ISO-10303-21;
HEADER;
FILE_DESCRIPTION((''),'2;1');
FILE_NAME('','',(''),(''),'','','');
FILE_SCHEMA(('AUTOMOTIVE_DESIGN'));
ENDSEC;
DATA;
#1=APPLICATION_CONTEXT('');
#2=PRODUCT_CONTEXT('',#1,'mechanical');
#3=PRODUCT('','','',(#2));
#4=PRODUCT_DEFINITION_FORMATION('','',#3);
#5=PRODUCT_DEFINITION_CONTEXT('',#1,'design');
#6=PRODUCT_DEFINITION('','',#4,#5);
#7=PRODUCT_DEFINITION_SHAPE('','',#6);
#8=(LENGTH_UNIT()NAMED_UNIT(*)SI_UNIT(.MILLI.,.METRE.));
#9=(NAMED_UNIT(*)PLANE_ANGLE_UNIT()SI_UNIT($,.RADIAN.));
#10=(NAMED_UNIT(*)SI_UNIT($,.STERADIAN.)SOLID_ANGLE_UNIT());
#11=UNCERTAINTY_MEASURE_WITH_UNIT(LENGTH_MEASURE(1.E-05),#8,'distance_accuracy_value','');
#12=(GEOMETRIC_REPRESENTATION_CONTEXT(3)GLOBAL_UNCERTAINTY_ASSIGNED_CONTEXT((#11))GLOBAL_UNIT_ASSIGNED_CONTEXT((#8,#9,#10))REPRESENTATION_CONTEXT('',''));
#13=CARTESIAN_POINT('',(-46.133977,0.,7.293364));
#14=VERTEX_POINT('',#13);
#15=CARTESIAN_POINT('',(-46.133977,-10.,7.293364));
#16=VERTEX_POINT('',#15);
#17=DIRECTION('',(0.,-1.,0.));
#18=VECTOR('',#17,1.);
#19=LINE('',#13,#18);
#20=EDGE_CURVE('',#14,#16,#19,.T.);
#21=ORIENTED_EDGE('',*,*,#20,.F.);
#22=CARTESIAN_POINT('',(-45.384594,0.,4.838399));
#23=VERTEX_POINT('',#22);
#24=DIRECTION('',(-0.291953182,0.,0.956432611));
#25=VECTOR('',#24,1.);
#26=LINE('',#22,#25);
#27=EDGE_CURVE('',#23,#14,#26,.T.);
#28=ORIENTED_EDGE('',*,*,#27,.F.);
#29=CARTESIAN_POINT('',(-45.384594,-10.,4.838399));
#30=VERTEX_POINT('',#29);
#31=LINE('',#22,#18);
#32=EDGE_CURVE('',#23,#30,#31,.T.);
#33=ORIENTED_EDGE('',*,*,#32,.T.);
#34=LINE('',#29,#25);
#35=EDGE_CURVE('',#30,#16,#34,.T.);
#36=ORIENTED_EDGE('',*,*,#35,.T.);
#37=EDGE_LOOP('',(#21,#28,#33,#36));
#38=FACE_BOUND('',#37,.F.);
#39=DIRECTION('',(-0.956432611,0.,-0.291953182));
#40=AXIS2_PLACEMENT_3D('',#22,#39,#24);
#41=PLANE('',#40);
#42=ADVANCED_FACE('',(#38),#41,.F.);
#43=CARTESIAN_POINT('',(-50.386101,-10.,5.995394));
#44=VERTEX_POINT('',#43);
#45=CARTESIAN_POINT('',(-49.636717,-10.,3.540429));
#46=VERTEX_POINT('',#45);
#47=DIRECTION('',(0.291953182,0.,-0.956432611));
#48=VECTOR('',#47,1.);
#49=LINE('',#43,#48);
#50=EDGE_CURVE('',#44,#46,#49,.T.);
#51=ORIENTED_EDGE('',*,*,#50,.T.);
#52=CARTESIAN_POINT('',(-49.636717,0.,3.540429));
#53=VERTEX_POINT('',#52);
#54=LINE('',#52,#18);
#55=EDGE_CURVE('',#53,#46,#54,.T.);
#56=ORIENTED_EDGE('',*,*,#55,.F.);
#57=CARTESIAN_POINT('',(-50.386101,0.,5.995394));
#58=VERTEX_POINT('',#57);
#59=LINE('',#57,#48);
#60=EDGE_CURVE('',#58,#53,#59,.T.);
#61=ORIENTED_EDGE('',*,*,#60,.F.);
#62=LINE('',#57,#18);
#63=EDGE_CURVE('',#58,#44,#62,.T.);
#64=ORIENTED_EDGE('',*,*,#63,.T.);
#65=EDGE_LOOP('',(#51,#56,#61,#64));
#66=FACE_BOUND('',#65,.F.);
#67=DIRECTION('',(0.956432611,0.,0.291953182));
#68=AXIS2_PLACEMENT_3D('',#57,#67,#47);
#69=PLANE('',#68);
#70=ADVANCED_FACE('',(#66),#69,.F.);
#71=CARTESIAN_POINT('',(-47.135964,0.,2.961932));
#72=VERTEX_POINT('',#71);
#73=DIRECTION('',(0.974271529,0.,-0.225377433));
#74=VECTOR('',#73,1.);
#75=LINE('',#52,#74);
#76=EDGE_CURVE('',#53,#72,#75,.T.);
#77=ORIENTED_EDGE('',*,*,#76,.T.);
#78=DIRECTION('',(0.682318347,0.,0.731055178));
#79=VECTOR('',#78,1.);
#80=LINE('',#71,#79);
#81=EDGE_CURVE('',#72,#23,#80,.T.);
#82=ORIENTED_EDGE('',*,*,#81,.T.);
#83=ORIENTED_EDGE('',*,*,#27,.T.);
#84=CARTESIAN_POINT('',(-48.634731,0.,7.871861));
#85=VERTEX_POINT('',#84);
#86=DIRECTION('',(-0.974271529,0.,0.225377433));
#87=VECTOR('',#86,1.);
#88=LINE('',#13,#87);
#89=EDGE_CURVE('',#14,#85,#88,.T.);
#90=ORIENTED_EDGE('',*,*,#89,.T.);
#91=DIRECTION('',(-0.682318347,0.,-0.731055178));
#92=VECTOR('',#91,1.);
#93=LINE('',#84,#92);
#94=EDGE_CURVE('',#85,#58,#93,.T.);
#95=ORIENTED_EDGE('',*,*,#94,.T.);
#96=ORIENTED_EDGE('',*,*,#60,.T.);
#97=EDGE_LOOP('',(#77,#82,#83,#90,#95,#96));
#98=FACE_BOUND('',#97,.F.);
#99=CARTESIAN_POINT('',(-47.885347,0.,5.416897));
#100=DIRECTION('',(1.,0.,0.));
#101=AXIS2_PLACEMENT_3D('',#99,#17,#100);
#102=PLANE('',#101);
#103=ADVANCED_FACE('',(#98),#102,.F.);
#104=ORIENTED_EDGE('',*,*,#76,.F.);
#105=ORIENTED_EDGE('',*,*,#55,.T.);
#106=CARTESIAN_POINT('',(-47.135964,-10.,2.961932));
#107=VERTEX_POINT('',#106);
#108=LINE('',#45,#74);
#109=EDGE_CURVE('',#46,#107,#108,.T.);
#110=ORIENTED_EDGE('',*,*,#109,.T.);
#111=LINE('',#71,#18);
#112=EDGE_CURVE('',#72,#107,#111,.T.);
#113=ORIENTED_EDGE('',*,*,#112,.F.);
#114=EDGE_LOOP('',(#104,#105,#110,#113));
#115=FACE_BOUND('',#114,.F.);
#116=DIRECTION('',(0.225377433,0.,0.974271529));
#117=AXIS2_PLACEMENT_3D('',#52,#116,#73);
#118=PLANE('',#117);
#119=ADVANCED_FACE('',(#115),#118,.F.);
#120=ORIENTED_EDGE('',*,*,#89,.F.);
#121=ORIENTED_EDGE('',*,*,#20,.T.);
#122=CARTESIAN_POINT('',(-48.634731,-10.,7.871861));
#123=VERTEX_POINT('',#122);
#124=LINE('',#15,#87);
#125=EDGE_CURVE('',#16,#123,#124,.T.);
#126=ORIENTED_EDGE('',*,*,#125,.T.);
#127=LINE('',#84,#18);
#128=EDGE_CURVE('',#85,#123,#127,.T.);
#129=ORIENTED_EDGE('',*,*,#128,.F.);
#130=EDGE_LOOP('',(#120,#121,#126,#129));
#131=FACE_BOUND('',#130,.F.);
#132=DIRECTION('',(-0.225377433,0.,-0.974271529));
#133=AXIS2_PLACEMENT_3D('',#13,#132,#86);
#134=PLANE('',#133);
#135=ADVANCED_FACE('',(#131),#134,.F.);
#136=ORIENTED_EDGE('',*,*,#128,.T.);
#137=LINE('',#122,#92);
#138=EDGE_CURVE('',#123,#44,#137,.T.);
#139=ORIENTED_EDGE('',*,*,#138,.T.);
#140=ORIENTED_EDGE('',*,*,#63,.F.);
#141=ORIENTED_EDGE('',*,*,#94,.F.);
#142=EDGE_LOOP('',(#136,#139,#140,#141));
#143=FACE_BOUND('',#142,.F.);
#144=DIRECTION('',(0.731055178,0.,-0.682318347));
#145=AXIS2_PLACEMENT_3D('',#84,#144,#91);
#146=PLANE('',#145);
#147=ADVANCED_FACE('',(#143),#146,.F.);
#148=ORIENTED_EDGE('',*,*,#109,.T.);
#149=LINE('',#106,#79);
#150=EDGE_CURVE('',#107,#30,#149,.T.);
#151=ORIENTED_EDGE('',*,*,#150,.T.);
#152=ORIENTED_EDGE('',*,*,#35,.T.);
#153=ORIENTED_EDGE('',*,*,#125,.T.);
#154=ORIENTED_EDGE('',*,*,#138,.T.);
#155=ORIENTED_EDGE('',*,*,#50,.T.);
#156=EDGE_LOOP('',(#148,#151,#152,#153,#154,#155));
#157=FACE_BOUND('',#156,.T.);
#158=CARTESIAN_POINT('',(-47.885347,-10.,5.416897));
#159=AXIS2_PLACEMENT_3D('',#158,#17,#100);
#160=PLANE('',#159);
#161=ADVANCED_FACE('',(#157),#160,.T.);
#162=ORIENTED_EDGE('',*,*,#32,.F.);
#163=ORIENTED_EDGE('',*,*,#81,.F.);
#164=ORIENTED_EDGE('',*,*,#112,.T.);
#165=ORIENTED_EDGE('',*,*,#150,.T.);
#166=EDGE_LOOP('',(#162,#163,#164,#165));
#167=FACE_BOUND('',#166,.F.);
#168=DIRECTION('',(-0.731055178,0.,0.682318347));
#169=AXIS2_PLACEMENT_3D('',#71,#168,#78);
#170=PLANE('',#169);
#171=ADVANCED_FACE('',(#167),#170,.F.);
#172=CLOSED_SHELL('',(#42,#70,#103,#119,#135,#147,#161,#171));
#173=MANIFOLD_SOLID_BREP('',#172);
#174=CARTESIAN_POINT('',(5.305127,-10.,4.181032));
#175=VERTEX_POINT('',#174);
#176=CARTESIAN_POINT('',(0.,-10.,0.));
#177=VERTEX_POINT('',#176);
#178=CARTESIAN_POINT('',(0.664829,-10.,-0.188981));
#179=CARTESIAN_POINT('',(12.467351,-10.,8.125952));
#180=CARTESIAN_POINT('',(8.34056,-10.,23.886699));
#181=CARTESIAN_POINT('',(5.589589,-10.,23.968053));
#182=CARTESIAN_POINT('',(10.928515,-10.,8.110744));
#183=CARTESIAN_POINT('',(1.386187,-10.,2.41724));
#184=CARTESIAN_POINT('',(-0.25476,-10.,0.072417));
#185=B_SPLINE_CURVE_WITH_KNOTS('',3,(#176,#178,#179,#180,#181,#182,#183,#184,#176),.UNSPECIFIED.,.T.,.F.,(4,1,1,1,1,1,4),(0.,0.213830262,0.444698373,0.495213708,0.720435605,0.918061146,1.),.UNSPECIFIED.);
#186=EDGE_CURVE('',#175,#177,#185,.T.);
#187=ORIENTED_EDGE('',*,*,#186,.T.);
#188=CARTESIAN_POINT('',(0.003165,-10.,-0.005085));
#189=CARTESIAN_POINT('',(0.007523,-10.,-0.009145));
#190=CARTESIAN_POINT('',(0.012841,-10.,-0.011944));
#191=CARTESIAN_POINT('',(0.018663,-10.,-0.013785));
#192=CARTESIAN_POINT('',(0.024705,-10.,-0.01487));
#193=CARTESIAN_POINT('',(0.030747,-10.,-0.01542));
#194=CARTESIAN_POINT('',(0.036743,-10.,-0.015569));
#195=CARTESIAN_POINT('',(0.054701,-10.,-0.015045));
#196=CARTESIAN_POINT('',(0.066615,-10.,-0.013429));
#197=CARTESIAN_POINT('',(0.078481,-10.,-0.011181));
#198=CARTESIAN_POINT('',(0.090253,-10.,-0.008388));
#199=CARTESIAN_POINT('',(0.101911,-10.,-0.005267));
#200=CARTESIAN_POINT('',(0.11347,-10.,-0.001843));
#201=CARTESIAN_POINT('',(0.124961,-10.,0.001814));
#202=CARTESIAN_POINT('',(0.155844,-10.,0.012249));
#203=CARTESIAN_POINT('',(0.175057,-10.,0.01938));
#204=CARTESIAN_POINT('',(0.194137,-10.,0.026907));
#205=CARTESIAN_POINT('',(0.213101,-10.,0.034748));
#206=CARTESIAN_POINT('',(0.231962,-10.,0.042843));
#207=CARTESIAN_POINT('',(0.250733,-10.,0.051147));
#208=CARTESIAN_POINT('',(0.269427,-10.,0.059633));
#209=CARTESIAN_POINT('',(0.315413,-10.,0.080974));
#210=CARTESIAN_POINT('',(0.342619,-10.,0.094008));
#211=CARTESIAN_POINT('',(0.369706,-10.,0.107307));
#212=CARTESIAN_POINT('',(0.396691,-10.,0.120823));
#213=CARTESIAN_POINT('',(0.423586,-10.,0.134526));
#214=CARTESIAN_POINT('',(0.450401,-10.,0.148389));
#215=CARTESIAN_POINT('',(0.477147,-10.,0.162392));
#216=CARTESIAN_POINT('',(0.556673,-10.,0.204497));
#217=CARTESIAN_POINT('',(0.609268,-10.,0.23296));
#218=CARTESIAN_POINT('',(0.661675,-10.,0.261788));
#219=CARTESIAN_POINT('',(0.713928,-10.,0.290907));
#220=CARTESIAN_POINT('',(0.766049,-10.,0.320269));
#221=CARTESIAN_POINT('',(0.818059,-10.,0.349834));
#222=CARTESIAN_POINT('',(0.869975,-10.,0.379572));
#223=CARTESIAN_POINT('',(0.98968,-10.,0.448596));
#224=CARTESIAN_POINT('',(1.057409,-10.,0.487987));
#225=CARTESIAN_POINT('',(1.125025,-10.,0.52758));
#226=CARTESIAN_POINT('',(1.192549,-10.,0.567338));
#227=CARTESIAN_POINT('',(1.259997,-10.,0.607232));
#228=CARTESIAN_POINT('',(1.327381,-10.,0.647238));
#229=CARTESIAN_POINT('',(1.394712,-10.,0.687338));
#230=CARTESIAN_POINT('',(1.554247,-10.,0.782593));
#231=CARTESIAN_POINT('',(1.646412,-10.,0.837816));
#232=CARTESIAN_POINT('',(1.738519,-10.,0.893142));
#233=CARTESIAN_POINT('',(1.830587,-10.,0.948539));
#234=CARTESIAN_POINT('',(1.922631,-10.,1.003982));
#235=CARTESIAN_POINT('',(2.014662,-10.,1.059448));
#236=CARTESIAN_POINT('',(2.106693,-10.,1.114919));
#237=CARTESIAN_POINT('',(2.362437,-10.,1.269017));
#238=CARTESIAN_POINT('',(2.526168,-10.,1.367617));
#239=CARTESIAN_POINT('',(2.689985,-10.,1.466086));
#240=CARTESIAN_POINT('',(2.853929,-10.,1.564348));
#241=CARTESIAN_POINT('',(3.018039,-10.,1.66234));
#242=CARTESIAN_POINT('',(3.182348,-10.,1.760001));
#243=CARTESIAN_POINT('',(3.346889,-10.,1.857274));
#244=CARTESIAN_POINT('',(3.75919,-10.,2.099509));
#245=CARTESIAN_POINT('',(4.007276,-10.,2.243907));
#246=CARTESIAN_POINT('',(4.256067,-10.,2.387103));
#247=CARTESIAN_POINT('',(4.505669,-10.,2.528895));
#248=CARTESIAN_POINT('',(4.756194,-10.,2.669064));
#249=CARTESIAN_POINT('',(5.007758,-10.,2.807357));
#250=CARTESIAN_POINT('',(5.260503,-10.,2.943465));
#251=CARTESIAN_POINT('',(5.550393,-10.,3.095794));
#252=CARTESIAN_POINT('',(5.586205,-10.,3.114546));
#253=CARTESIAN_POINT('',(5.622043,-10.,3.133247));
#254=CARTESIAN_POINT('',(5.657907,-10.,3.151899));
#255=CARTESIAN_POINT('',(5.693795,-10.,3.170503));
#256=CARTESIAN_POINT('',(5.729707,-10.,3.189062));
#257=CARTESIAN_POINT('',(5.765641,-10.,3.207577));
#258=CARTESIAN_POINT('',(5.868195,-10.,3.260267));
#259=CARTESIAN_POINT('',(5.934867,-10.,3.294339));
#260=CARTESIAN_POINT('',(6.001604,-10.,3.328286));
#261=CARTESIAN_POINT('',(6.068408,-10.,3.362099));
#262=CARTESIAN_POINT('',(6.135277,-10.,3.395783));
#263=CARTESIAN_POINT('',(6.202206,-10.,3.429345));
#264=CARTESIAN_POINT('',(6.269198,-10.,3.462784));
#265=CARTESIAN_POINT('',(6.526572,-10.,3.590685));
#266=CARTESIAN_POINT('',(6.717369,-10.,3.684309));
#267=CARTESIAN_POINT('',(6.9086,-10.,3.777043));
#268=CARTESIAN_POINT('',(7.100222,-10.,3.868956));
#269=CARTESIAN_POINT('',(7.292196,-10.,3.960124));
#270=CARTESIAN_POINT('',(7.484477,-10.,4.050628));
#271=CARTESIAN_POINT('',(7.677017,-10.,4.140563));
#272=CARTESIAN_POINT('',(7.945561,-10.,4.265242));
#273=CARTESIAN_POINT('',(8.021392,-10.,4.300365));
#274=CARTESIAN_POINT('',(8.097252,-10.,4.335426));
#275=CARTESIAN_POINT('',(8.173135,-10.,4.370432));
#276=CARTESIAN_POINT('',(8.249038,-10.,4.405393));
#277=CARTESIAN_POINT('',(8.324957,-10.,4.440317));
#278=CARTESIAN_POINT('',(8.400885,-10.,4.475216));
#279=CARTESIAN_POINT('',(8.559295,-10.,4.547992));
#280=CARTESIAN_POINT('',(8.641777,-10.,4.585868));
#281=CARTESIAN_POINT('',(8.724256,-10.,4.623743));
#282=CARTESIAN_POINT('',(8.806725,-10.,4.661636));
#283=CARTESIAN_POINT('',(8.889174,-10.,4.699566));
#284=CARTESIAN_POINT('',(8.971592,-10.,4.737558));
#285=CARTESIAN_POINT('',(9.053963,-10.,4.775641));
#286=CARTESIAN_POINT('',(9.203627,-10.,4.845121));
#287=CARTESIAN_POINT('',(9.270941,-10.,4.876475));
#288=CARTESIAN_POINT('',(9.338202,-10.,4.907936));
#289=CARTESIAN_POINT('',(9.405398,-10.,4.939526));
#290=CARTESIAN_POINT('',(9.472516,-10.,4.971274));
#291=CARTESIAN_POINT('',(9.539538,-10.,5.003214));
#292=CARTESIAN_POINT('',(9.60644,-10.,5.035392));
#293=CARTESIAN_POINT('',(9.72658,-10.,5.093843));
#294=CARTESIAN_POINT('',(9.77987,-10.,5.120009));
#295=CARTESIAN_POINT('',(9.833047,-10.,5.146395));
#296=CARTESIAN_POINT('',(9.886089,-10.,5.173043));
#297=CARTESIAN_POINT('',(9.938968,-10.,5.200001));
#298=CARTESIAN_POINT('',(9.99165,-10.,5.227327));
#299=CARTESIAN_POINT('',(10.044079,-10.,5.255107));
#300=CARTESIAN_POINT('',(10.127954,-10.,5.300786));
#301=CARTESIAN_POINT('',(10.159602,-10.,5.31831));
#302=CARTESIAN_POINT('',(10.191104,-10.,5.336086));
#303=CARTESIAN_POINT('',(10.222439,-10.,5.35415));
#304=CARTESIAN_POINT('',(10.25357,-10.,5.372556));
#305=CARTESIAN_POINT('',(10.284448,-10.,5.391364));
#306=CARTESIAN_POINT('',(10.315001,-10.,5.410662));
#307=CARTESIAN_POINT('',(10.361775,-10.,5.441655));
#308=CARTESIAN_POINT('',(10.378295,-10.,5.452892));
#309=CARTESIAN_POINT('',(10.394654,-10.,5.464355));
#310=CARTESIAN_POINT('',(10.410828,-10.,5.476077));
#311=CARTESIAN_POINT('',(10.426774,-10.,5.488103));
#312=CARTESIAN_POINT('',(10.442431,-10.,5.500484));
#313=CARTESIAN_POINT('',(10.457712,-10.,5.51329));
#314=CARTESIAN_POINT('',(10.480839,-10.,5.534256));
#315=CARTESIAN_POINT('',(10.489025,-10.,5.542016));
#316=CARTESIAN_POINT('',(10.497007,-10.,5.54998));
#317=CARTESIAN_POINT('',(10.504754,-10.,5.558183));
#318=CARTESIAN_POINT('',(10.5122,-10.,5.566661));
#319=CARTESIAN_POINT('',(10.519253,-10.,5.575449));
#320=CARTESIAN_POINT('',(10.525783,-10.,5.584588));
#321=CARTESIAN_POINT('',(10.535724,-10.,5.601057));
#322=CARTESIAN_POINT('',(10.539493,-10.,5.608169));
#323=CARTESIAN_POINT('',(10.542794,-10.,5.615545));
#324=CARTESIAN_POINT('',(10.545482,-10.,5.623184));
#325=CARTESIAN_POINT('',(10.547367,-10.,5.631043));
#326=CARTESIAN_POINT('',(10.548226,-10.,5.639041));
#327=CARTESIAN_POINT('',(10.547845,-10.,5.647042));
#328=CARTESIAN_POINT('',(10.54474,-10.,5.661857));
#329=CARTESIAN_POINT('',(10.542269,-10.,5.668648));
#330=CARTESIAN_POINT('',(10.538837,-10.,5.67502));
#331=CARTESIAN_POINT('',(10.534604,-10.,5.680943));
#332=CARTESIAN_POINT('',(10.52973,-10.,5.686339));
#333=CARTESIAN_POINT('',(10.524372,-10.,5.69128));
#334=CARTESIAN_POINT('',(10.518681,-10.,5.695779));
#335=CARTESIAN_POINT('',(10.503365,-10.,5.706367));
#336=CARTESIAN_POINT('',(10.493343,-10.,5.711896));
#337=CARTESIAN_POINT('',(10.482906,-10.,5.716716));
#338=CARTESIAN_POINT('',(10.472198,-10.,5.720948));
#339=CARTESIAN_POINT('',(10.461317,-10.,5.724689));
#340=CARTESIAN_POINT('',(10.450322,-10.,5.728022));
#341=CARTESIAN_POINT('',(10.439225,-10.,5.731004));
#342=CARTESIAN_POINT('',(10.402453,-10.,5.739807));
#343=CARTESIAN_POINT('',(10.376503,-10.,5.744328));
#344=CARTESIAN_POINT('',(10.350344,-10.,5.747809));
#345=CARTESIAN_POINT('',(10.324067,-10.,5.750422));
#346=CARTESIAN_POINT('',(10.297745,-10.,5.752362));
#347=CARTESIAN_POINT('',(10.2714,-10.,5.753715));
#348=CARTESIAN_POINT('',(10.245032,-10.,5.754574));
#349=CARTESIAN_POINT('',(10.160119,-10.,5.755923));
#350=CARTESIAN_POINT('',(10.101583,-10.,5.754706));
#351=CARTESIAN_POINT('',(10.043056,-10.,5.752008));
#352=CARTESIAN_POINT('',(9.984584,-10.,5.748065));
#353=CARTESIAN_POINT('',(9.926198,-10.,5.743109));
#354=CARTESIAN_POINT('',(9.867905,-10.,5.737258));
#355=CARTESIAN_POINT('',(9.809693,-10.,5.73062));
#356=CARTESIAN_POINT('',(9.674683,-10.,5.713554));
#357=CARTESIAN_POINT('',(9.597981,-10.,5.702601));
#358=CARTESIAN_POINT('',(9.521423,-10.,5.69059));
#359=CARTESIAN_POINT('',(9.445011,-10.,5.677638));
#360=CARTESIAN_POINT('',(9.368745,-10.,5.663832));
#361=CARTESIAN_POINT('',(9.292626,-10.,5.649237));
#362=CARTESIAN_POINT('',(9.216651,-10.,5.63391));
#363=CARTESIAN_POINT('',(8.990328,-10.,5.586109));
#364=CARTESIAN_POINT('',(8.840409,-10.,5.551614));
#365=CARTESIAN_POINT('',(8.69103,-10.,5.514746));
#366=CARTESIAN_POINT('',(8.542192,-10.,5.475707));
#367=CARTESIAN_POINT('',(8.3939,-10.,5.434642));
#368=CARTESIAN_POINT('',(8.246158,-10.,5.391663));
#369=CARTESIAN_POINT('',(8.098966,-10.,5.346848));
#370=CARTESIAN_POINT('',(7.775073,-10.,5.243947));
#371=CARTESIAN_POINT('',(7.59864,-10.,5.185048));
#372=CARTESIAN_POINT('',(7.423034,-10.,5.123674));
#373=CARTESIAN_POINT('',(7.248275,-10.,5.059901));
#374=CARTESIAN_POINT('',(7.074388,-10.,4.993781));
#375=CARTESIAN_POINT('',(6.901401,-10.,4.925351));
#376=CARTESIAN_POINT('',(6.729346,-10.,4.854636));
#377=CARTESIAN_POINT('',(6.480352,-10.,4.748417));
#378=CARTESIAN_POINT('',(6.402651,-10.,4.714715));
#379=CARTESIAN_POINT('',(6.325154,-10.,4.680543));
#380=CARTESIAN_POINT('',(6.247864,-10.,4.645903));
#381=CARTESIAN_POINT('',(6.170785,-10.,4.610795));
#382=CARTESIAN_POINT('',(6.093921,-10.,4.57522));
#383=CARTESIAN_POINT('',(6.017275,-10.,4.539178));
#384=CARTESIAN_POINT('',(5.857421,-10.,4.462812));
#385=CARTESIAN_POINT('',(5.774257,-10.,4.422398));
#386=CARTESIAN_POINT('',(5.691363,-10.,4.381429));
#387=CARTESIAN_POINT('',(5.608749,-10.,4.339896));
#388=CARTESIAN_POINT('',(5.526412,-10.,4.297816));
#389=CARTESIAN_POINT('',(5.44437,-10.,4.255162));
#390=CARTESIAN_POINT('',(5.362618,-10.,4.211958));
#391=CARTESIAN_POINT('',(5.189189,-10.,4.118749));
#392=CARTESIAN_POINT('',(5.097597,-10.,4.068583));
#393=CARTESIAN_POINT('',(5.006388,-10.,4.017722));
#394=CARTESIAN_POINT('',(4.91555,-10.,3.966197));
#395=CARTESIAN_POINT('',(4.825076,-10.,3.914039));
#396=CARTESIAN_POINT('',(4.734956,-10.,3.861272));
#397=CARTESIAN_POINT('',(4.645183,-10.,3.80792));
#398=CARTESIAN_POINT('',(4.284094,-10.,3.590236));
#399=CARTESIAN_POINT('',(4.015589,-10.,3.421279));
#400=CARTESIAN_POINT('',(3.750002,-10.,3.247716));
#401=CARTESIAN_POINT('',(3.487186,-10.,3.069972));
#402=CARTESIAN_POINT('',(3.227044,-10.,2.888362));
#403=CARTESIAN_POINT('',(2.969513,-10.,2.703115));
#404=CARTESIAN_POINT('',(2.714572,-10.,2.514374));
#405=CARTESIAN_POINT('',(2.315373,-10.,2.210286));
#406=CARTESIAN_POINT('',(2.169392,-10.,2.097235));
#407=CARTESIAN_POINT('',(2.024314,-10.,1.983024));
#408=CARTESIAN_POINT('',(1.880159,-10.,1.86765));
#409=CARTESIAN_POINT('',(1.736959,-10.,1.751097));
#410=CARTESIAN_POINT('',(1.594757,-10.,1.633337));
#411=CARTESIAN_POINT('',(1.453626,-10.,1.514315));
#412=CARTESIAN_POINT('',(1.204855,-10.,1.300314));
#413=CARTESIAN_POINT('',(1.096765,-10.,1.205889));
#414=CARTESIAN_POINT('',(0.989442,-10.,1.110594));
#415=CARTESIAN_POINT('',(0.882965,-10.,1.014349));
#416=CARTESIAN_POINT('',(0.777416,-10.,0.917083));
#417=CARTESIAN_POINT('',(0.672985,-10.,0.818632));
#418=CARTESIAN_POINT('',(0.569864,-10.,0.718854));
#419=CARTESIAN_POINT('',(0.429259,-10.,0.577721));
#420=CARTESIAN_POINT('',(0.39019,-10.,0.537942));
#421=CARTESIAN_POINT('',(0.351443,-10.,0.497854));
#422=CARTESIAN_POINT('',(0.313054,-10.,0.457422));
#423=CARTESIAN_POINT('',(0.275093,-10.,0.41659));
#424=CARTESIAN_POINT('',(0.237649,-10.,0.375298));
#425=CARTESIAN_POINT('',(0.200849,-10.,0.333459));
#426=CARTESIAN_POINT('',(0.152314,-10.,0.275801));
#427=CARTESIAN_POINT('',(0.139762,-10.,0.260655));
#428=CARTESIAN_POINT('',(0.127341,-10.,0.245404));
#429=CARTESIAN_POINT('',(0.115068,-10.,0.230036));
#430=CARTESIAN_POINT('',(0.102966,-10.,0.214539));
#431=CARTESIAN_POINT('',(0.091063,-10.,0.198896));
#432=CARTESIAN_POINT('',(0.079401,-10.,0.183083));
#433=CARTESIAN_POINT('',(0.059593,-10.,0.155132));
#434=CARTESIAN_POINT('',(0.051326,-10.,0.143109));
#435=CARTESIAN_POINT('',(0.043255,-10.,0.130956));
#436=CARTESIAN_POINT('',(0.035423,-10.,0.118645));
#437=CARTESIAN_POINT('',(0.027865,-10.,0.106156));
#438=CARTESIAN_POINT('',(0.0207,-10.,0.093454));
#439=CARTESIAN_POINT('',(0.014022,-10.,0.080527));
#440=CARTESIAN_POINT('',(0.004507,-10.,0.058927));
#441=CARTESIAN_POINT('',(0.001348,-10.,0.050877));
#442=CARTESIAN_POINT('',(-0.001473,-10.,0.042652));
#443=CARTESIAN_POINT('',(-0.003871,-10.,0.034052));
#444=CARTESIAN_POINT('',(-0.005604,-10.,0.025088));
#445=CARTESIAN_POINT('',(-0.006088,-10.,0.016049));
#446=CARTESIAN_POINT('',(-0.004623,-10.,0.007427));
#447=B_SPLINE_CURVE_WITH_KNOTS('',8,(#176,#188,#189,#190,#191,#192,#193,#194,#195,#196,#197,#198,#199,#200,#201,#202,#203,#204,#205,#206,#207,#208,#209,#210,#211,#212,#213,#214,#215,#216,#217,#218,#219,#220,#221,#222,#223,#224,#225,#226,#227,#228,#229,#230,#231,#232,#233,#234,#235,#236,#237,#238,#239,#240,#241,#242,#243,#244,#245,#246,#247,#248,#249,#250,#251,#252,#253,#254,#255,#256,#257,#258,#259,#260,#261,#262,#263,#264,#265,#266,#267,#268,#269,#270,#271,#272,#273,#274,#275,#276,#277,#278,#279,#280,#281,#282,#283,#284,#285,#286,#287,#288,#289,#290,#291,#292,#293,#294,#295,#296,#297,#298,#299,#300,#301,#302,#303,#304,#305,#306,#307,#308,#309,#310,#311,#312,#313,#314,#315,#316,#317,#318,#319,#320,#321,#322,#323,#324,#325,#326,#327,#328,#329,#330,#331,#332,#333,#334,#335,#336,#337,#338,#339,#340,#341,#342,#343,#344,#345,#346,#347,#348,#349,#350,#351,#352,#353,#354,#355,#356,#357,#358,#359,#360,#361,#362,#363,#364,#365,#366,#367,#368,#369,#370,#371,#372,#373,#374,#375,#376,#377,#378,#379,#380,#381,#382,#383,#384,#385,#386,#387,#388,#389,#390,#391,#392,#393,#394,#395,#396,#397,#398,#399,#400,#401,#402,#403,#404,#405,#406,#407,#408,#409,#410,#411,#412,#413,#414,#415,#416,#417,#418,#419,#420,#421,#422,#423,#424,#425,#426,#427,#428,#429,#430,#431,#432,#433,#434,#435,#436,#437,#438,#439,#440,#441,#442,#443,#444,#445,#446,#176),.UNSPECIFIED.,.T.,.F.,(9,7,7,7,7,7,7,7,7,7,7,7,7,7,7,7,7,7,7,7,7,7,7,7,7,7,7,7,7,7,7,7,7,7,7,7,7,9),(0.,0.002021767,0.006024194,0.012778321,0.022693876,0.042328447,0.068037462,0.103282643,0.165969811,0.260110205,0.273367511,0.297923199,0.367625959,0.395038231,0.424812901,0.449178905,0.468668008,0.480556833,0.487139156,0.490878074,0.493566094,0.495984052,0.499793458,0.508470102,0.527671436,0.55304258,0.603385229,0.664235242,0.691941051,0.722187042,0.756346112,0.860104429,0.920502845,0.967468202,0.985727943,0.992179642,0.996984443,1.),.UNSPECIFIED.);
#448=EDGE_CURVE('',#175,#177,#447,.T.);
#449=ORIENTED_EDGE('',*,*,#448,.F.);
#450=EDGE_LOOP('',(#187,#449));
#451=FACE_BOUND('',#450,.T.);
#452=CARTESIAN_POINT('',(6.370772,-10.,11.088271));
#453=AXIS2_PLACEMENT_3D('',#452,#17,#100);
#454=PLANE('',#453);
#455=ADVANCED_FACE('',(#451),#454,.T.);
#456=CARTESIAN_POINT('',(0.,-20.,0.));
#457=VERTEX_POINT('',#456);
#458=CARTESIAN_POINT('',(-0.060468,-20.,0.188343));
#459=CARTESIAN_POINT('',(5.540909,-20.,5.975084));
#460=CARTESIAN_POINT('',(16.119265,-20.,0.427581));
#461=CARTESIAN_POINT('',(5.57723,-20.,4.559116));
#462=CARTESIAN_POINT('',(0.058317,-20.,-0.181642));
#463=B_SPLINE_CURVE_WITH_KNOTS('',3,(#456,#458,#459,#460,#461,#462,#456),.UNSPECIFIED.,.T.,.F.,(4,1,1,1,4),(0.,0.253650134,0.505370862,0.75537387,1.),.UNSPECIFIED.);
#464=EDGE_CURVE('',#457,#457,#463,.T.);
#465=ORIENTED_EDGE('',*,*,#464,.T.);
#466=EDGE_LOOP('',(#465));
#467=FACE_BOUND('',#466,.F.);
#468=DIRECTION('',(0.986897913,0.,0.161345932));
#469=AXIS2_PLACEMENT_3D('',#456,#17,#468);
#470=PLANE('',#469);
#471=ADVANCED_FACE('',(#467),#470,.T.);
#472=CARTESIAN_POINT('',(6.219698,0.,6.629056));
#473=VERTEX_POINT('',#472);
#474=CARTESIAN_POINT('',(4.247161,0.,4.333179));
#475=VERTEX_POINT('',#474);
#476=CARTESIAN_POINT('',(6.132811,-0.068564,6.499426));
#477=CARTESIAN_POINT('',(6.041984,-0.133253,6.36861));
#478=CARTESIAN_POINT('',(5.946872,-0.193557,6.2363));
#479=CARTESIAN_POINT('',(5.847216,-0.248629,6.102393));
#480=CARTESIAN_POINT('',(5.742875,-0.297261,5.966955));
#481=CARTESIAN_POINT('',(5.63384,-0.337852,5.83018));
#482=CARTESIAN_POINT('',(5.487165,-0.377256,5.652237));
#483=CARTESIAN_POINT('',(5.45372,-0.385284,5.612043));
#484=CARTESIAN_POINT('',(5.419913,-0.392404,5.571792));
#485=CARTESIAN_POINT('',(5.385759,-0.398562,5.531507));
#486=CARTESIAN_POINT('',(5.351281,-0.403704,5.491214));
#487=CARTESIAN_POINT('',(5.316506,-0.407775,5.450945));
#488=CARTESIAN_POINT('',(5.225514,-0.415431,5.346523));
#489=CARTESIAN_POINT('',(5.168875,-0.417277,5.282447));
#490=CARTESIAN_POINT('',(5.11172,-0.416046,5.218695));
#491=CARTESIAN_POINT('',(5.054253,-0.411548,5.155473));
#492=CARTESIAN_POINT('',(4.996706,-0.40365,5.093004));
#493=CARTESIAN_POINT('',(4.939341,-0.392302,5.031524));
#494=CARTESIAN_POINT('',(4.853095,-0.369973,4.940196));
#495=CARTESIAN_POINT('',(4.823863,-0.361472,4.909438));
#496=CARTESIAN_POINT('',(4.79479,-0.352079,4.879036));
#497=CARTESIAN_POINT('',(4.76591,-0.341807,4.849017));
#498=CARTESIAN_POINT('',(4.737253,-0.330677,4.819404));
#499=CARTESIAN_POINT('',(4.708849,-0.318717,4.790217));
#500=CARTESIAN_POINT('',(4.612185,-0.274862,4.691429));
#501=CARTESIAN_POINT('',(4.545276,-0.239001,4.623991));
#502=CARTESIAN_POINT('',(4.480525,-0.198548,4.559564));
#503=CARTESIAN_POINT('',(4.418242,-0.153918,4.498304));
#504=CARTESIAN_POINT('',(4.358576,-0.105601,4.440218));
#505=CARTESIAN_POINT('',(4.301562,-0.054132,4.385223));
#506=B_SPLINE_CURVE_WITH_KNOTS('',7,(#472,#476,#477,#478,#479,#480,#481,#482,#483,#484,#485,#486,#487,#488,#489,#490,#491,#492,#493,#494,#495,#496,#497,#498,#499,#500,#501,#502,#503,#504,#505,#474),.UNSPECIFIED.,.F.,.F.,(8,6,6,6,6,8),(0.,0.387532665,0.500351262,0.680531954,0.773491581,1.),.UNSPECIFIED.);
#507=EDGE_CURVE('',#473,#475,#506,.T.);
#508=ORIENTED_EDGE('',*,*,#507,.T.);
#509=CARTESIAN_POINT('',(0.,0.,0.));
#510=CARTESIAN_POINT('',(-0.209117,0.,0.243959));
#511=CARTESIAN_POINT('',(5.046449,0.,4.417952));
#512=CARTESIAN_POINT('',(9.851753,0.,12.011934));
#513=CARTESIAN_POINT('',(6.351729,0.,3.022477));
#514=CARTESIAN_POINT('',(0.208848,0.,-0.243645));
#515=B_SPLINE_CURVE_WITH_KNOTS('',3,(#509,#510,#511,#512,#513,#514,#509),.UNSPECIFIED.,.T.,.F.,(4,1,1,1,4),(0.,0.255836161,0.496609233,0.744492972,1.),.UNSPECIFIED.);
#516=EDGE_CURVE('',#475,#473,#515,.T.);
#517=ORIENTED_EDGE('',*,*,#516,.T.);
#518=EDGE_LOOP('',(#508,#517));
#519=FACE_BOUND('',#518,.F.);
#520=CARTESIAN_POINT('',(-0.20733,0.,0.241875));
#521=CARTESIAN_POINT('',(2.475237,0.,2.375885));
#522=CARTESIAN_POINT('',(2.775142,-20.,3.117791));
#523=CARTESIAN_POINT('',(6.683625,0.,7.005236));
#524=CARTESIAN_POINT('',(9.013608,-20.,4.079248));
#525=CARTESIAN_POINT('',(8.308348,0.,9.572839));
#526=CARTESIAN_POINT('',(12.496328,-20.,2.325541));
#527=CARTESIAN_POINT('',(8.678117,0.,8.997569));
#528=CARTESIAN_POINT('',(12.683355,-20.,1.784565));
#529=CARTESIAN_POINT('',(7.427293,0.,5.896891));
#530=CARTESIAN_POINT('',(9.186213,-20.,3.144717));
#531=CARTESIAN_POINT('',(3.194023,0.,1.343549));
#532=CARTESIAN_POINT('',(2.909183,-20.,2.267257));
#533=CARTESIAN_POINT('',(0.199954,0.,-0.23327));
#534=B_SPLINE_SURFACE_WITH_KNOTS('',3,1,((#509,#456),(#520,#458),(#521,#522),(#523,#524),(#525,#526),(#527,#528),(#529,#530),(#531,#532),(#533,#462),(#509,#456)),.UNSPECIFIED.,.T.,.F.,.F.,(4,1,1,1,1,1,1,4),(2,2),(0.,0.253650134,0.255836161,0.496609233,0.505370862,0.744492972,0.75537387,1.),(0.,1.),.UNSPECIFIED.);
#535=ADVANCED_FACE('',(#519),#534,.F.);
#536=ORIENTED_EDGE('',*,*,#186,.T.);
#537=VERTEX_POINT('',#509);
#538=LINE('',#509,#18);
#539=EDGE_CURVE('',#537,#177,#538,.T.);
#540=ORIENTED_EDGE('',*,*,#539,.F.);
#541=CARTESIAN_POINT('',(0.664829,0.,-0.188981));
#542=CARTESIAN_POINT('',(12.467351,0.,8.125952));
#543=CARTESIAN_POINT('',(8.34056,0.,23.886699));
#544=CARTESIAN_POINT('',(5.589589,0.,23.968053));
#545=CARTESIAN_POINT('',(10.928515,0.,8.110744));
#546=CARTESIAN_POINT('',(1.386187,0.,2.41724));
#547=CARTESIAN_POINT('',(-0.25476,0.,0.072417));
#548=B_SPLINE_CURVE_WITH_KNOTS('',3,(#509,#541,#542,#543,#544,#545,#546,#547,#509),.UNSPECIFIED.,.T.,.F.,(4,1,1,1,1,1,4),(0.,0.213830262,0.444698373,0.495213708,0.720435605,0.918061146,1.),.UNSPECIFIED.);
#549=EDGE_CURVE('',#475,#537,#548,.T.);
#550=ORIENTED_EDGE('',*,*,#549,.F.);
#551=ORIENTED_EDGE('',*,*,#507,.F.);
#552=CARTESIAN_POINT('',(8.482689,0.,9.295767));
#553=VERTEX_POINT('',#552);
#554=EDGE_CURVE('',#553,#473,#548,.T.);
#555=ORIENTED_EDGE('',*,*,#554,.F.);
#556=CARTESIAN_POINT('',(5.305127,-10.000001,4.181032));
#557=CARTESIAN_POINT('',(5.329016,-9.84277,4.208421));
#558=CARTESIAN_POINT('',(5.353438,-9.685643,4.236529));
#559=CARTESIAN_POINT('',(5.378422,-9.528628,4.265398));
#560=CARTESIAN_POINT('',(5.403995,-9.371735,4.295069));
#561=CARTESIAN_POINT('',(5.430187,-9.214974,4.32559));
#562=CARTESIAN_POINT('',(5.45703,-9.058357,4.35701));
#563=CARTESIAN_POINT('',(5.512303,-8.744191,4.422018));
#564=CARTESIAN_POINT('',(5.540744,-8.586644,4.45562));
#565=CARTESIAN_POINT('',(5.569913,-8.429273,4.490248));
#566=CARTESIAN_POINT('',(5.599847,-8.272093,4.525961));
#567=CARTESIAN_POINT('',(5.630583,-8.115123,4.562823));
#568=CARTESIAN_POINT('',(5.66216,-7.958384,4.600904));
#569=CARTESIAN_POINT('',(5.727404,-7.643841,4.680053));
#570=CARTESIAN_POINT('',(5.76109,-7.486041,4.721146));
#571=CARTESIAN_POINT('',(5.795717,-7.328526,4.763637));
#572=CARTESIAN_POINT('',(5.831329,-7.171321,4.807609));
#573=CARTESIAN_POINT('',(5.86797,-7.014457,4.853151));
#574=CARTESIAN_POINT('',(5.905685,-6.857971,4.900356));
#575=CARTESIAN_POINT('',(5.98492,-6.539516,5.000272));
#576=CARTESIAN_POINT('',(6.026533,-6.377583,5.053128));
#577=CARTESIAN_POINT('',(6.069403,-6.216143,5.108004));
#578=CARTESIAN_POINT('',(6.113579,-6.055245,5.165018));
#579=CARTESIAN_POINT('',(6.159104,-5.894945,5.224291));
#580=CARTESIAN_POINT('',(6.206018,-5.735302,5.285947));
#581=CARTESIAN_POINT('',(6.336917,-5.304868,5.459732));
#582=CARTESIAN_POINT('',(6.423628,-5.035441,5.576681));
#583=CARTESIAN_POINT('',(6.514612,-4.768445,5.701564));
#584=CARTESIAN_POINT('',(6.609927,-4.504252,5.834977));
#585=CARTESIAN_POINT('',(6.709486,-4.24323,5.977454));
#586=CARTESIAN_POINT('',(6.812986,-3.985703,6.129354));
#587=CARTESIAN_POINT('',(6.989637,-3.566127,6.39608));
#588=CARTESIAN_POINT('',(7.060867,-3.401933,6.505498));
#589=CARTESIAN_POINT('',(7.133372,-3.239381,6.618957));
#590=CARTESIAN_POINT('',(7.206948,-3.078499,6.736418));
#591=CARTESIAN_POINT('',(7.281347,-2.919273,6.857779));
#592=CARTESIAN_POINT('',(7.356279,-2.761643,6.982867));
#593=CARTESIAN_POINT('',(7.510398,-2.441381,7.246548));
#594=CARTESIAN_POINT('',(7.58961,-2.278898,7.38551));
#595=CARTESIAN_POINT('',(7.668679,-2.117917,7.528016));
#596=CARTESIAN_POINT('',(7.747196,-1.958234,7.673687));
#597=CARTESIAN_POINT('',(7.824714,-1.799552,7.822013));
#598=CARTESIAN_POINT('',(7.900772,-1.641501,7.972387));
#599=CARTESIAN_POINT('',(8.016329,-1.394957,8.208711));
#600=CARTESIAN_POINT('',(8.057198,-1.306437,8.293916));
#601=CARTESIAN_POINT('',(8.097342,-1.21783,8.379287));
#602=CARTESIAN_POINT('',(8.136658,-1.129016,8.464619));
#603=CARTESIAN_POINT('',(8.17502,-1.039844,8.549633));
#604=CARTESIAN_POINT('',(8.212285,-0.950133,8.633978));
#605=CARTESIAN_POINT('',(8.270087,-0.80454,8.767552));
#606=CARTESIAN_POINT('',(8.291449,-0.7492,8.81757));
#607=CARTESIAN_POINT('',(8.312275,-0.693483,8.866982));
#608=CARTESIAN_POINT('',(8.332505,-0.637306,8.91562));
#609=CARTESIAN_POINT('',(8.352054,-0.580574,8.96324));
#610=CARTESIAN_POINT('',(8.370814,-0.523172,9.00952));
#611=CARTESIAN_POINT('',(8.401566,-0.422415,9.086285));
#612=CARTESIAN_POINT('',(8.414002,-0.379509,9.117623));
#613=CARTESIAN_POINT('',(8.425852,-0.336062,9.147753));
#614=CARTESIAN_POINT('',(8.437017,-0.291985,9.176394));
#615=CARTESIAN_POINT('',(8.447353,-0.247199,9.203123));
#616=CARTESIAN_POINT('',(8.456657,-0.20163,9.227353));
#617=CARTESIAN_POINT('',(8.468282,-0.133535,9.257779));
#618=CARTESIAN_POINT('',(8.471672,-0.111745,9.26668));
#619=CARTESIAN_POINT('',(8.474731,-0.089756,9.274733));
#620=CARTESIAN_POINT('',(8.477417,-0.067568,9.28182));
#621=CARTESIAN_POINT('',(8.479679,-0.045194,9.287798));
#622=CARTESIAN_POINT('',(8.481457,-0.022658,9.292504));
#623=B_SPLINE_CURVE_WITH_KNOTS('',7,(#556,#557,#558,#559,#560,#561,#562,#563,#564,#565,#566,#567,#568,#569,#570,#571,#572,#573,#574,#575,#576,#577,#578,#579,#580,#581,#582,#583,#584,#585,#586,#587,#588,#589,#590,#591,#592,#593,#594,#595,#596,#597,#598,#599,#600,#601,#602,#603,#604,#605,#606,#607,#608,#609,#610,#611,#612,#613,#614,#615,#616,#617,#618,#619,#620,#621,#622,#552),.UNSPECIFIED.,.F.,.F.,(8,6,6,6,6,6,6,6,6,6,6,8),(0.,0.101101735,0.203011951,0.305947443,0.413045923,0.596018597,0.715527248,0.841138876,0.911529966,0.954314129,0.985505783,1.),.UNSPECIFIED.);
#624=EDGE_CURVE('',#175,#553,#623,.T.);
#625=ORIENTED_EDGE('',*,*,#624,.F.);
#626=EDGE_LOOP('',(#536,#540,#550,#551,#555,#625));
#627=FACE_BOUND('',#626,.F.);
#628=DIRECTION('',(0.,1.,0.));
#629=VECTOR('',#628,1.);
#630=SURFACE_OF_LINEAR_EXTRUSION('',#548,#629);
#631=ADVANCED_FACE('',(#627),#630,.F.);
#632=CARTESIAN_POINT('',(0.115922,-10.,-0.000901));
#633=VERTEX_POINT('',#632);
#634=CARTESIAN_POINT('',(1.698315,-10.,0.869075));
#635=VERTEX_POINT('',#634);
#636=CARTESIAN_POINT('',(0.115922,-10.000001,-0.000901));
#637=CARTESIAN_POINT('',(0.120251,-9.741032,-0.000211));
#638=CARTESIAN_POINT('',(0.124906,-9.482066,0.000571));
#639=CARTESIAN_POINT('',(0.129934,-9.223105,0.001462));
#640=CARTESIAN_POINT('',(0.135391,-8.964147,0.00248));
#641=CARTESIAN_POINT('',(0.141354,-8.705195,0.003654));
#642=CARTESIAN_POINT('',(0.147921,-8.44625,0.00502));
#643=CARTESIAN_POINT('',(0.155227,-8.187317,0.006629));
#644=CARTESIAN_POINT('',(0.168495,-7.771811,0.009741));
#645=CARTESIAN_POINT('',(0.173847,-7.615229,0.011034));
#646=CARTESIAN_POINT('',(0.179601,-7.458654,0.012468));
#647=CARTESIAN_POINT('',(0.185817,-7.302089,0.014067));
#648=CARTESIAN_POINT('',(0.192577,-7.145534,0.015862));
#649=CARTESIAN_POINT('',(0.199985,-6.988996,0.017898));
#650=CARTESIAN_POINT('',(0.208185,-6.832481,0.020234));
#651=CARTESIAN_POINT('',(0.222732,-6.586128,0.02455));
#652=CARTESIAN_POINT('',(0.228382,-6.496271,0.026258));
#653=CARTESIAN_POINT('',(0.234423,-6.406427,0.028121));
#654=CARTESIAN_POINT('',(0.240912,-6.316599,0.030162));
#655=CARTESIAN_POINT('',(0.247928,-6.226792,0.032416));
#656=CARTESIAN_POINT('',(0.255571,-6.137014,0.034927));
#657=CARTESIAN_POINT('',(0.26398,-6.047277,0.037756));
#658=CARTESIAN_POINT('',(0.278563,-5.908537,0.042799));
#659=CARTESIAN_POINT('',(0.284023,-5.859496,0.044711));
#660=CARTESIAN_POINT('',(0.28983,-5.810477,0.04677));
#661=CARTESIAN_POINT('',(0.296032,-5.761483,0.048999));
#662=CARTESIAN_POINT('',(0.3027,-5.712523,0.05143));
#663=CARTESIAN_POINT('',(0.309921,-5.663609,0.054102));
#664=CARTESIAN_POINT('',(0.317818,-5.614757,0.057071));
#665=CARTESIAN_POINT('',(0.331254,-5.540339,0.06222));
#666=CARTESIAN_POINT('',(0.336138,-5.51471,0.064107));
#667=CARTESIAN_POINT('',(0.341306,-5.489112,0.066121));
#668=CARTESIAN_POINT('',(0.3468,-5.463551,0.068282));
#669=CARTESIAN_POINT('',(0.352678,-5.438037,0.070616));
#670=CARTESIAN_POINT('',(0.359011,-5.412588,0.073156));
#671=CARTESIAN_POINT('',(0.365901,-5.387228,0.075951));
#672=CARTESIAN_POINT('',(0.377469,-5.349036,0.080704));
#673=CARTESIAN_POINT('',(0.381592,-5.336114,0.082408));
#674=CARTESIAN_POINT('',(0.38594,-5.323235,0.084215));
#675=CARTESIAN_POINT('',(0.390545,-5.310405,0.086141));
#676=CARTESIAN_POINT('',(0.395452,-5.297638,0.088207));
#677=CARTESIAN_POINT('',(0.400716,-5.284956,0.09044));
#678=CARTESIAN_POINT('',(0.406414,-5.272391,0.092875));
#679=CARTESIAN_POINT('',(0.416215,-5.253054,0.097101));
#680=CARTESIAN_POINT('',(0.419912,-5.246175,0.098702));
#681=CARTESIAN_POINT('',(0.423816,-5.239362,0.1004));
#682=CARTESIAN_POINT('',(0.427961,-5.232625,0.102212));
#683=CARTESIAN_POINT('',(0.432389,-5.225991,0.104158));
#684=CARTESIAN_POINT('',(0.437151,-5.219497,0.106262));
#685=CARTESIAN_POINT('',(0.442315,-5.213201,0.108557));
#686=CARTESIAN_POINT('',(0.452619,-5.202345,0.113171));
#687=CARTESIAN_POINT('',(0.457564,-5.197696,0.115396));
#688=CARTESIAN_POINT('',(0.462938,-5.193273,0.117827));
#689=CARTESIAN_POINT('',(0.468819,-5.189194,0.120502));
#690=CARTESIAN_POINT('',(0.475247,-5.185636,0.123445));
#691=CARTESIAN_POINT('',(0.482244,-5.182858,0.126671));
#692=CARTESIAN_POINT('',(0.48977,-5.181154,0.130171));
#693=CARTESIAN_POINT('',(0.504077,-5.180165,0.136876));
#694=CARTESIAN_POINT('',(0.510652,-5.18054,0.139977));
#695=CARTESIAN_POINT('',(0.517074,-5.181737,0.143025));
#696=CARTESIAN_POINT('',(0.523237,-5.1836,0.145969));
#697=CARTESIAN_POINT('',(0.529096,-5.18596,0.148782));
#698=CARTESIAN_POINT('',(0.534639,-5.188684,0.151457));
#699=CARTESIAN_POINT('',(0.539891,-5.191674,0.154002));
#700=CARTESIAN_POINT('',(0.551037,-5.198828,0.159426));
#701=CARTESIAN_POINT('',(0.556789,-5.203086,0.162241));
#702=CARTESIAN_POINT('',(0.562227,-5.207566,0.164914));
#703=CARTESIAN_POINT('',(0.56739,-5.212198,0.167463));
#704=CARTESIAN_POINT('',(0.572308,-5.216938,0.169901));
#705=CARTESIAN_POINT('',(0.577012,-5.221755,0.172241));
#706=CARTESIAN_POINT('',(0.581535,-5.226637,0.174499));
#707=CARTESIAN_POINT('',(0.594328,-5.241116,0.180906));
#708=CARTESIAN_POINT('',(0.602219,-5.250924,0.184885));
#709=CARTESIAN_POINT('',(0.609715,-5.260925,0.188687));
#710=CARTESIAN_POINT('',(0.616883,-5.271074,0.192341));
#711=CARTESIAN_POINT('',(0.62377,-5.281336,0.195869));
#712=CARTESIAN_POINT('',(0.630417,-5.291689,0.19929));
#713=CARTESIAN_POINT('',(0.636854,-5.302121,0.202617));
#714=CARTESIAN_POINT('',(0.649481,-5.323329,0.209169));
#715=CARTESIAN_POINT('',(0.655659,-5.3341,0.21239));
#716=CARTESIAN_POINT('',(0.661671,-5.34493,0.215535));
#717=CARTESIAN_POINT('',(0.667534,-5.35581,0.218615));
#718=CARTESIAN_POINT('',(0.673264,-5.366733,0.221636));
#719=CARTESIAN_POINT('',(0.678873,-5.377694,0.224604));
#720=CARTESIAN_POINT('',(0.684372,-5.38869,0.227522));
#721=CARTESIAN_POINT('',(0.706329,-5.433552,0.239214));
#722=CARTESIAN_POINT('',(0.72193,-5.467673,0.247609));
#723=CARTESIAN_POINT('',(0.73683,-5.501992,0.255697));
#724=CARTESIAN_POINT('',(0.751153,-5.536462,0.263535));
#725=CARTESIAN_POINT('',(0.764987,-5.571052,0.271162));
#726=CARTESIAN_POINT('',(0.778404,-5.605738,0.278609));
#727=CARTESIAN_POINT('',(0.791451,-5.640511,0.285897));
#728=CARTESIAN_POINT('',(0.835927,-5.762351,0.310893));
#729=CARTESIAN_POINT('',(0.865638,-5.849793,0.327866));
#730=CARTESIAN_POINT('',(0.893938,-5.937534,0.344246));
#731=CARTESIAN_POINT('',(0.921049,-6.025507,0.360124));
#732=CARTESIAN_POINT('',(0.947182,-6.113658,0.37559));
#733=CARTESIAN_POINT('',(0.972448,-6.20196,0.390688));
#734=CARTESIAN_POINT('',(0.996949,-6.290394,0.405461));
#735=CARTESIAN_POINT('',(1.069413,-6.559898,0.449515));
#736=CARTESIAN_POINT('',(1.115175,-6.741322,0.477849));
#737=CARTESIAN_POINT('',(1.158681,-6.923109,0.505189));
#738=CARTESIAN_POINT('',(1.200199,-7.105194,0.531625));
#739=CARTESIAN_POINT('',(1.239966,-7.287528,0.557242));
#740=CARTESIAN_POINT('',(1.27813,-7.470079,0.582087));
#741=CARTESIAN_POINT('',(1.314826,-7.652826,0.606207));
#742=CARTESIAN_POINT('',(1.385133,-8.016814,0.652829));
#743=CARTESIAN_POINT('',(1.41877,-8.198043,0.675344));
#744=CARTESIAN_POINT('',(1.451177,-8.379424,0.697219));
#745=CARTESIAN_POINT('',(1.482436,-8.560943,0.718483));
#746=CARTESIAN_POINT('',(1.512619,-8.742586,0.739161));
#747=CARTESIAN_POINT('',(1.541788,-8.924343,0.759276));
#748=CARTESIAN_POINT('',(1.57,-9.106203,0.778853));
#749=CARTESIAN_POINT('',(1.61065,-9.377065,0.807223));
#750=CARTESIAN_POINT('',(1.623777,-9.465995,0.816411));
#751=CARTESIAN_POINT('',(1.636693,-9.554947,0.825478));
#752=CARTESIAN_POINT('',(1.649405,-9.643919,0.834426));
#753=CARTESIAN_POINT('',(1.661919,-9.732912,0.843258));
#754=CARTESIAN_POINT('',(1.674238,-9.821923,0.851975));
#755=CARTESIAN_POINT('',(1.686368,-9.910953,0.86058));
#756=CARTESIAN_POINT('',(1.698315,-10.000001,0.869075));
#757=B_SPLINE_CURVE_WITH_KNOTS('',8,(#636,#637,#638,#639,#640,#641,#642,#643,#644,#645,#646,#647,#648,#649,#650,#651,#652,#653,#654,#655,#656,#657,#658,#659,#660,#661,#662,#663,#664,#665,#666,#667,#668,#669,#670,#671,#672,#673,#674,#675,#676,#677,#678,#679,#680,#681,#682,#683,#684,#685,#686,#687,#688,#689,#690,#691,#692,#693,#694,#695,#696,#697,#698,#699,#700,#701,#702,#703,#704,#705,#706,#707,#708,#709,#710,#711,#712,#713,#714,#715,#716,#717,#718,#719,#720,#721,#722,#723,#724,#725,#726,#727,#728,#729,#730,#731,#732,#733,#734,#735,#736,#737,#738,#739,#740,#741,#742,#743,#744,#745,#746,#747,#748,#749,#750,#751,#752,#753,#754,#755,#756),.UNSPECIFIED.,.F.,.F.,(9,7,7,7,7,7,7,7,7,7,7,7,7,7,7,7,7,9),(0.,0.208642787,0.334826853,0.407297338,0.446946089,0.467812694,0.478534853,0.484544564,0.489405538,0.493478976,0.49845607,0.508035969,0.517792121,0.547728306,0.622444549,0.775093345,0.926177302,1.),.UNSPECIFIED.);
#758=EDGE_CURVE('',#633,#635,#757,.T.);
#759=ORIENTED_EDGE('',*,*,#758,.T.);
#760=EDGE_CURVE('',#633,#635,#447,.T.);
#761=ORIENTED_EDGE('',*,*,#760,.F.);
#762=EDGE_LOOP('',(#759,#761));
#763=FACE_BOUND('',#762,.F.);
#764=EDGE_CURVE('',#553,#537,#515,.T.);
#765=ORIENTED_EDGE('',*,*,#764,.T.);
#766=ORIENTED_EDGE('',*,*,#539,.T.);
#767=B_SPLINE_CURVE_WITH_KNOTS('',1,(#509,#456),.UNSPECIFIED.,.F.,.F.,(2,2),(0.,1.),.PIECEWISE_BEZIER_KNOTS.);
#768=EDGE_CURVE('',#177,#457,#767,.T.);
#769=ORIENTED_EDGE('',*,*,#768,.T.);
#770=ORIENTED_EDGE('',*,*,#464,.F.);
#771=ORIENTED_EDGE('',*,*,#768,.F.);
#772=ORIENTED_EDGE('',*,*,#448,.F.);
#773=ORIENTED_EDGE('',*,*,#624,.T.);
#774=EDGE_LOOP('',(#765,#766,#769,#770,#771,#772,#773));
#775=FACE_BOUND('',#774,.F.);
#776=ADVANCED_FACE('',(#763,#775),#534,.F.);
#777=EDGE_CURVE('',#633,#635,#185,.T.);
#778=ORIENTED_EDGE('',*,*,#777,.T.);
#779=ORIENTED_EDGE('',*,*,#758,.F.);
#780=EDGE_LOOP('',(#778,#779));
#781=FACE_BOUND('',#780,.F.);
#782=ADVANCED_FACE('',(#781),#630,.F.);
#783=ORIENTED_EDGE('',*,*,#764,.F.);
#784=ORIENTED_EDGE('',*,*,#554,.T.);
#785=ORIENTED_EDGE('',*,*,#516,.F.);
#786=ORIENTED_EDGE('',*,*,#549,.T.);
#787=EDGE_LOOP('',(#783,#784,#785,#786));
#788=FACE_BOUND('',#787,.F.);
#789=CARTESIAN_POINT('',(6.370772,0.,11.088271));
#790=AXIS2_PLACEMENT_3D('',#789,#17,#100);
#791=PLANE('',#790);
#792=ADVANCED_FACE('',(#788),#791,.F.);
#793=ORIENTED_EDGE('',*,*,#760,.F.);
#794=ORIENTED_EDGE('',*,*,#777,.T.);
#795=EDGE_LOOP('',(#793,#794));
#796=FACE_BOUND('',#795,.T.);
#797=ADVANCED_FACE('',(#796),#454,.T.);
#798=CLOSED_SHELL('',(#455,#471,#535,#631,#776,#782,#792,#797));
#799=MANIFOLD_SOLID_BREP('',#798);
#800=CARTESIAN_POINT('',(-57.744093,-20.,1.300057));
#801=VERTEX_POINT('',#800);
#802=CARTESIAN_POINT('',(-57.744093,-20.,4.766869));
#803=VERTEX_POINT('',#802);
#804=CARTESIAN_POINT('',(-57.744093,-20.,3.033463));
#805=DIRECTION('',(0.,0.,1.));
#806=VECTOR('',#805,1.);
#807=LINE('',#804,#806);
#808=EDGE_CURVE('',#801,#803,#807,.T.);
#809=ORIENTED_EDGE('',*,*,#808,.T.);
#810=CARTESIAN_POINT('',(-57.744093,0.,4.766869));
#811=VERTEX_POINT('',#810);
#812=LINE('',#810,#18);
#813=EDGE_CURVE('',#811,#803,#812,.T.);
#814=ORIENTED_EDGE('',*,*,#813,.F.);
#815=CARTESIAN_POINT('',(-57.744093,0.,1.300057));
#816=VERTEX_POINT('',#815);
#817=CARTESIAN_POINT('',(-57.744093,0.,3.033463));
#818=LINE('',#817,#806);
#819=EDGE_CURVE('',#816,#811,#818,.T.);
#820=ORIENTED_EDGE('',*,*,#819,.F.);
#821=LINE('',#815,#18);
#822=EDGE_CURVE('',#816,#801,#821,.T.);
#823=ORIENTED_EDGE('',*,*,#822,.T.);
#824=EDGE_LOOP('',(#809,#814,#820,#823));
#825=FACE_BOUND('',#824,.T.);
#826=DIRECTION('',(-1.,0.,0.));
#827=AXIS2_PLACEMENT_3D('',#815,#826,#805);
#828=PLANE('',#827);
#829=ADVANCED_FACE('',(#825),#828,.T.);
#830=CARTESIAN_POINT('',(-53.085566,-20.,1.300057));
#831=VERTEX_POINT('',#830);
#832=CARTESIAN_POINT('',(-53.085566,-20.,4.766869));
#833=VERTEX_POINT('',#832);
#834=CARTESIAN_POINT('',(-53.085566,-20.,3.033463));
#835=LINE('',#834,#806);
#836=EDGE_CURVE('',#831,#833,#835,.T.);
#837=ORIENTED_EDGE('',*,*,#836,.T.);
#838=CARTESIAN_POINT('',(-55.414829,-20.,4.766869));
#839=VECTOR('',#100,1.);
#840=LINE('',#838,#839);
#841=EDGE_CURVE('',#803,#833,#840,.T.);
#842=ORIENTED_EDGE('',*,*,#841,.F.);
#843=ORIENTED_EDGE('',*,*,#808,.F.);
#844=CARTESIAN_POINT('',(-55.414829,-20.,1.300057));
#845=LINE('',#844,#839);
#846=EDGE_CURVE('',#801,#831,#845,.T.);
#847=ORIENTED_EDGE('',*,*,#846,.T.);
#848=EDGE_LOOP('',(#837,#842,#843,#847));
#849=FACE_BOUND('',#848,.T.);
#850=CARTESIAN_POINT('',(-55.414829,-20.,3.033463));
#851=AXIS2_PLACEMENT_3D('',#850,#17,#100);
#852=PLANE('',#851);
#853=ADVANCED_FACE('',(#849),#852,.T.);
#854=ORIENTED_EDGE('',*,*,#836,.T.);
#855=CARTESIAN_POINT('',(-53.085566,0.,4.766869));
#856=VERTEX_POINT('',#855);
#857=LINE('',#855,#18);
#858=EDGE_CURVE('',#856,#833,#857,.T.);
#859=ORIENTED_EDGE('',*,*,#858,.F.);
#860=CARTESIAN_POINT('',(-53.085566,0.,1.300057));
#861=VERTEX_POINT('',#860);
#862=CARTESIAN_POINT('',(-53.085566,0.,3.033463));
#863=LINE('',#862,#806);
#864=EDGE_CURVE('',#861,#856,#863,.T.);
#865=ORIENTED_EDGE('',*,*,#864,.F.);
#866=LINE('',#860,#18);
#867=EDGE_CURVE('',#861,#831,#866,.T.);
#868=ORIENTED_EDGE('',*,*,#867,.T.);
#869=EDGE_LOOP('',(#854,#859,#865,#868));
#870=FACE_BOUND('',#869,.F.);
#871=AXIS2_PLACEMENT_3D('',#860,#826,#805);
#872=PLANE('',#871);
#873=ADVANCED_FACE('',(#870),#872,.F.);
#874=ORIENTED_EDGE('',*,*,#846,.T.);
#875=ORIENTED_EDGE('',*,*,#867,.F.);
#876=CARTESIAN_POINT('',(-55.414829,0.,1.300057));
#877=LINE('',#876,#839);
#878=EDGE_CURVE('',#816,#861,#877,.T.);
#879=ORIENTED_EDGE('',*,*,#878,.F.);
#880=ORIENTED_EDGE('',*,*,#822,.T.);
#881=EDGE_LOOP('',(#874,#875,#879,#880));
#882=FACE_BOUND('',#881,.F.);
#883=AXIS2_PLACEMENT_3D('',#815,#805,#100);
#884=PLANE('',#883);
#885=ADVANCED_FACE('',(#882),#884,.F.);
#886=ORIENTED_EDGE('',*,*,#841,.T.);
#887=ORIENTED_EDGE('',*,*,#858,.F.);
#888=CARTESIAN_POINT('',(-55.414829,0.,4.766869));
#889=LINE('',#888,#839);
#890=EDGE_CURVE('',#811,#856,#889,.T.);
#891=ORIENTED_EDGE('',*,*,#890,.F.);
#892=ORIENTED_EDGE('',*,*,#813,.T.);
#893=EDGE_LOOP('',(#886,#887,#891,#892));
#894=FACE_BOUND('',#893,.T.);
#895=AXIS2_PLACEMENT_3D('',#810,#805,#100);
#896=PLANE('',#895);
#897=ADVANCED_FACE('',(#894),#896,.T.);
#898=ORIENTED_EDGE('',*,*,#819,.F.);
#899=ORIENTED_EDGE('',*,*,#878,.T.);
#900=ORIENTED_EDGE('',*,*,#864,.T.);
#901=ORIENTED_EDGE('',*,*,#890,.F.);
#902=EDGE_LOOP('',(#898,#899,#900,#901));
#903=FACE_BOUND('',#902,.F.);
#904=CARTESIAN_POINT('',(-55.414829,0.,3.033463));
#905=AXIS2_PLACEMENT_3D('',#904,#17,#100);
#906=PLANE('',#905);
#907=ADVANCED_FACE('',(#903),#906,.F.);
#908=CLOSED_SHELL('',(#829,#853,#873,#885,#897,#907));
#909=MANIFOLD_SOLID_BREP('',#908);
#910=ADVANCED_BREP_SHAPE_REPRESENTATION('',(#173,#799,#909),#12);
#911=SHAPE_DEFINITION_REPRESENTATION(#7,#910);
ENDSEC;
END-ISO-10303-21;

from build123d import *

# Parameters (mm, degrees)
F1_DEPTH = 10
F2_W     = 4.6585276723
F2_H     = 3.4668124281
F3_DEPTH = 20
F5_DEPTH = 10


with BuildPart() as f1:
    # F0 (on Front) → F1 (new body)
    with BuildSketch(Plane.XZ):
        Polygon((-47.1359637175, 2.9619319419), (-45.3845936265, 4.8383993973), (-46.1339770667, 7.2933641153), (-48.6347305979, 7.8718613778), (-50.386100689, 5.9953939224), (-49.6367172487, 3.5404292045), align=None)
    extrude(amount=F1_DEPTH)


with BuildPart() as f3:
    # F2 (on Front) → F3 (new body)
    with BuildSketch(Plane.XZ):
        with Locations((-55.4148294032, 3.0334631447)):
            Rectangle(F2_W, F2_H)
    extrude(amount=F3_DEPTH)


with BuildPart() as f5:
    # F4 (on Front) → F5 (new body)
    with BuildSketch(Plane.XZ):
        with BuildLine():
            add(Edge.make_bspline(
                [(0, 0), (0.6648293711, -0.188981205), (12.4673509988, 8.1259515223), (8.340559845, 23.8866987707), (5.589588775, 23.9680533216), (10.9285147982, 8.1107435481), (1.3861866389, 2.4172402453), (-0.2547598085, 0.0724168), (0, 0)],
                knots=[0, 0, 0, 0, 0.2138302617, 0.4446983734, 0.4952137082, 0.7204356046, 0.9180611464, 1, 1, 1, 1], degree=3))
        make_face()
    extrude(amount=F5_DEPTH)

    # F6 (on Front) → F8 section 0
    with BuildSketch(Plane.XZ):
        with BuildLine():
            add(Edge.make_bspline(
                [(0, 0), (-0.2091170948, 0.2439592883), (5.0464489308, 4.4179518646), (9.8517528194, 12.0119338835), (6.3517293709, 3.0224772556), (0.2088480666, -0.2436454357), (0, 0)],
                knots=[0, 0, 0, 0, 0.2558361605, 0.4966092327, 0.7444929717, 1, 1, 1, 1], degree=3))
        make_face()
    # F7 (on face) → F8 section 1
    with BuildSketch(Plane.XZ.offset(20)):
        with BuildLine():
            add(Edge.make_bspline(
                [(0, 0), (-0.0604682007, 0.1883430084), (5.5409091283, 5.9750842646), (16.1192653382, 0.4275810021), (5.5772304583, 4.5591161226), (0.0583169489, -0.1816424082), (0, 0)],
                knots=[0, 0, 0, 0, 0.2536501341, 0.5053708622, 0.7553738703, 1, 1, 1, 1], degree=3))
        make_face()
    loft()


solid = Compound([f1.part, f3.part, f5.part])
